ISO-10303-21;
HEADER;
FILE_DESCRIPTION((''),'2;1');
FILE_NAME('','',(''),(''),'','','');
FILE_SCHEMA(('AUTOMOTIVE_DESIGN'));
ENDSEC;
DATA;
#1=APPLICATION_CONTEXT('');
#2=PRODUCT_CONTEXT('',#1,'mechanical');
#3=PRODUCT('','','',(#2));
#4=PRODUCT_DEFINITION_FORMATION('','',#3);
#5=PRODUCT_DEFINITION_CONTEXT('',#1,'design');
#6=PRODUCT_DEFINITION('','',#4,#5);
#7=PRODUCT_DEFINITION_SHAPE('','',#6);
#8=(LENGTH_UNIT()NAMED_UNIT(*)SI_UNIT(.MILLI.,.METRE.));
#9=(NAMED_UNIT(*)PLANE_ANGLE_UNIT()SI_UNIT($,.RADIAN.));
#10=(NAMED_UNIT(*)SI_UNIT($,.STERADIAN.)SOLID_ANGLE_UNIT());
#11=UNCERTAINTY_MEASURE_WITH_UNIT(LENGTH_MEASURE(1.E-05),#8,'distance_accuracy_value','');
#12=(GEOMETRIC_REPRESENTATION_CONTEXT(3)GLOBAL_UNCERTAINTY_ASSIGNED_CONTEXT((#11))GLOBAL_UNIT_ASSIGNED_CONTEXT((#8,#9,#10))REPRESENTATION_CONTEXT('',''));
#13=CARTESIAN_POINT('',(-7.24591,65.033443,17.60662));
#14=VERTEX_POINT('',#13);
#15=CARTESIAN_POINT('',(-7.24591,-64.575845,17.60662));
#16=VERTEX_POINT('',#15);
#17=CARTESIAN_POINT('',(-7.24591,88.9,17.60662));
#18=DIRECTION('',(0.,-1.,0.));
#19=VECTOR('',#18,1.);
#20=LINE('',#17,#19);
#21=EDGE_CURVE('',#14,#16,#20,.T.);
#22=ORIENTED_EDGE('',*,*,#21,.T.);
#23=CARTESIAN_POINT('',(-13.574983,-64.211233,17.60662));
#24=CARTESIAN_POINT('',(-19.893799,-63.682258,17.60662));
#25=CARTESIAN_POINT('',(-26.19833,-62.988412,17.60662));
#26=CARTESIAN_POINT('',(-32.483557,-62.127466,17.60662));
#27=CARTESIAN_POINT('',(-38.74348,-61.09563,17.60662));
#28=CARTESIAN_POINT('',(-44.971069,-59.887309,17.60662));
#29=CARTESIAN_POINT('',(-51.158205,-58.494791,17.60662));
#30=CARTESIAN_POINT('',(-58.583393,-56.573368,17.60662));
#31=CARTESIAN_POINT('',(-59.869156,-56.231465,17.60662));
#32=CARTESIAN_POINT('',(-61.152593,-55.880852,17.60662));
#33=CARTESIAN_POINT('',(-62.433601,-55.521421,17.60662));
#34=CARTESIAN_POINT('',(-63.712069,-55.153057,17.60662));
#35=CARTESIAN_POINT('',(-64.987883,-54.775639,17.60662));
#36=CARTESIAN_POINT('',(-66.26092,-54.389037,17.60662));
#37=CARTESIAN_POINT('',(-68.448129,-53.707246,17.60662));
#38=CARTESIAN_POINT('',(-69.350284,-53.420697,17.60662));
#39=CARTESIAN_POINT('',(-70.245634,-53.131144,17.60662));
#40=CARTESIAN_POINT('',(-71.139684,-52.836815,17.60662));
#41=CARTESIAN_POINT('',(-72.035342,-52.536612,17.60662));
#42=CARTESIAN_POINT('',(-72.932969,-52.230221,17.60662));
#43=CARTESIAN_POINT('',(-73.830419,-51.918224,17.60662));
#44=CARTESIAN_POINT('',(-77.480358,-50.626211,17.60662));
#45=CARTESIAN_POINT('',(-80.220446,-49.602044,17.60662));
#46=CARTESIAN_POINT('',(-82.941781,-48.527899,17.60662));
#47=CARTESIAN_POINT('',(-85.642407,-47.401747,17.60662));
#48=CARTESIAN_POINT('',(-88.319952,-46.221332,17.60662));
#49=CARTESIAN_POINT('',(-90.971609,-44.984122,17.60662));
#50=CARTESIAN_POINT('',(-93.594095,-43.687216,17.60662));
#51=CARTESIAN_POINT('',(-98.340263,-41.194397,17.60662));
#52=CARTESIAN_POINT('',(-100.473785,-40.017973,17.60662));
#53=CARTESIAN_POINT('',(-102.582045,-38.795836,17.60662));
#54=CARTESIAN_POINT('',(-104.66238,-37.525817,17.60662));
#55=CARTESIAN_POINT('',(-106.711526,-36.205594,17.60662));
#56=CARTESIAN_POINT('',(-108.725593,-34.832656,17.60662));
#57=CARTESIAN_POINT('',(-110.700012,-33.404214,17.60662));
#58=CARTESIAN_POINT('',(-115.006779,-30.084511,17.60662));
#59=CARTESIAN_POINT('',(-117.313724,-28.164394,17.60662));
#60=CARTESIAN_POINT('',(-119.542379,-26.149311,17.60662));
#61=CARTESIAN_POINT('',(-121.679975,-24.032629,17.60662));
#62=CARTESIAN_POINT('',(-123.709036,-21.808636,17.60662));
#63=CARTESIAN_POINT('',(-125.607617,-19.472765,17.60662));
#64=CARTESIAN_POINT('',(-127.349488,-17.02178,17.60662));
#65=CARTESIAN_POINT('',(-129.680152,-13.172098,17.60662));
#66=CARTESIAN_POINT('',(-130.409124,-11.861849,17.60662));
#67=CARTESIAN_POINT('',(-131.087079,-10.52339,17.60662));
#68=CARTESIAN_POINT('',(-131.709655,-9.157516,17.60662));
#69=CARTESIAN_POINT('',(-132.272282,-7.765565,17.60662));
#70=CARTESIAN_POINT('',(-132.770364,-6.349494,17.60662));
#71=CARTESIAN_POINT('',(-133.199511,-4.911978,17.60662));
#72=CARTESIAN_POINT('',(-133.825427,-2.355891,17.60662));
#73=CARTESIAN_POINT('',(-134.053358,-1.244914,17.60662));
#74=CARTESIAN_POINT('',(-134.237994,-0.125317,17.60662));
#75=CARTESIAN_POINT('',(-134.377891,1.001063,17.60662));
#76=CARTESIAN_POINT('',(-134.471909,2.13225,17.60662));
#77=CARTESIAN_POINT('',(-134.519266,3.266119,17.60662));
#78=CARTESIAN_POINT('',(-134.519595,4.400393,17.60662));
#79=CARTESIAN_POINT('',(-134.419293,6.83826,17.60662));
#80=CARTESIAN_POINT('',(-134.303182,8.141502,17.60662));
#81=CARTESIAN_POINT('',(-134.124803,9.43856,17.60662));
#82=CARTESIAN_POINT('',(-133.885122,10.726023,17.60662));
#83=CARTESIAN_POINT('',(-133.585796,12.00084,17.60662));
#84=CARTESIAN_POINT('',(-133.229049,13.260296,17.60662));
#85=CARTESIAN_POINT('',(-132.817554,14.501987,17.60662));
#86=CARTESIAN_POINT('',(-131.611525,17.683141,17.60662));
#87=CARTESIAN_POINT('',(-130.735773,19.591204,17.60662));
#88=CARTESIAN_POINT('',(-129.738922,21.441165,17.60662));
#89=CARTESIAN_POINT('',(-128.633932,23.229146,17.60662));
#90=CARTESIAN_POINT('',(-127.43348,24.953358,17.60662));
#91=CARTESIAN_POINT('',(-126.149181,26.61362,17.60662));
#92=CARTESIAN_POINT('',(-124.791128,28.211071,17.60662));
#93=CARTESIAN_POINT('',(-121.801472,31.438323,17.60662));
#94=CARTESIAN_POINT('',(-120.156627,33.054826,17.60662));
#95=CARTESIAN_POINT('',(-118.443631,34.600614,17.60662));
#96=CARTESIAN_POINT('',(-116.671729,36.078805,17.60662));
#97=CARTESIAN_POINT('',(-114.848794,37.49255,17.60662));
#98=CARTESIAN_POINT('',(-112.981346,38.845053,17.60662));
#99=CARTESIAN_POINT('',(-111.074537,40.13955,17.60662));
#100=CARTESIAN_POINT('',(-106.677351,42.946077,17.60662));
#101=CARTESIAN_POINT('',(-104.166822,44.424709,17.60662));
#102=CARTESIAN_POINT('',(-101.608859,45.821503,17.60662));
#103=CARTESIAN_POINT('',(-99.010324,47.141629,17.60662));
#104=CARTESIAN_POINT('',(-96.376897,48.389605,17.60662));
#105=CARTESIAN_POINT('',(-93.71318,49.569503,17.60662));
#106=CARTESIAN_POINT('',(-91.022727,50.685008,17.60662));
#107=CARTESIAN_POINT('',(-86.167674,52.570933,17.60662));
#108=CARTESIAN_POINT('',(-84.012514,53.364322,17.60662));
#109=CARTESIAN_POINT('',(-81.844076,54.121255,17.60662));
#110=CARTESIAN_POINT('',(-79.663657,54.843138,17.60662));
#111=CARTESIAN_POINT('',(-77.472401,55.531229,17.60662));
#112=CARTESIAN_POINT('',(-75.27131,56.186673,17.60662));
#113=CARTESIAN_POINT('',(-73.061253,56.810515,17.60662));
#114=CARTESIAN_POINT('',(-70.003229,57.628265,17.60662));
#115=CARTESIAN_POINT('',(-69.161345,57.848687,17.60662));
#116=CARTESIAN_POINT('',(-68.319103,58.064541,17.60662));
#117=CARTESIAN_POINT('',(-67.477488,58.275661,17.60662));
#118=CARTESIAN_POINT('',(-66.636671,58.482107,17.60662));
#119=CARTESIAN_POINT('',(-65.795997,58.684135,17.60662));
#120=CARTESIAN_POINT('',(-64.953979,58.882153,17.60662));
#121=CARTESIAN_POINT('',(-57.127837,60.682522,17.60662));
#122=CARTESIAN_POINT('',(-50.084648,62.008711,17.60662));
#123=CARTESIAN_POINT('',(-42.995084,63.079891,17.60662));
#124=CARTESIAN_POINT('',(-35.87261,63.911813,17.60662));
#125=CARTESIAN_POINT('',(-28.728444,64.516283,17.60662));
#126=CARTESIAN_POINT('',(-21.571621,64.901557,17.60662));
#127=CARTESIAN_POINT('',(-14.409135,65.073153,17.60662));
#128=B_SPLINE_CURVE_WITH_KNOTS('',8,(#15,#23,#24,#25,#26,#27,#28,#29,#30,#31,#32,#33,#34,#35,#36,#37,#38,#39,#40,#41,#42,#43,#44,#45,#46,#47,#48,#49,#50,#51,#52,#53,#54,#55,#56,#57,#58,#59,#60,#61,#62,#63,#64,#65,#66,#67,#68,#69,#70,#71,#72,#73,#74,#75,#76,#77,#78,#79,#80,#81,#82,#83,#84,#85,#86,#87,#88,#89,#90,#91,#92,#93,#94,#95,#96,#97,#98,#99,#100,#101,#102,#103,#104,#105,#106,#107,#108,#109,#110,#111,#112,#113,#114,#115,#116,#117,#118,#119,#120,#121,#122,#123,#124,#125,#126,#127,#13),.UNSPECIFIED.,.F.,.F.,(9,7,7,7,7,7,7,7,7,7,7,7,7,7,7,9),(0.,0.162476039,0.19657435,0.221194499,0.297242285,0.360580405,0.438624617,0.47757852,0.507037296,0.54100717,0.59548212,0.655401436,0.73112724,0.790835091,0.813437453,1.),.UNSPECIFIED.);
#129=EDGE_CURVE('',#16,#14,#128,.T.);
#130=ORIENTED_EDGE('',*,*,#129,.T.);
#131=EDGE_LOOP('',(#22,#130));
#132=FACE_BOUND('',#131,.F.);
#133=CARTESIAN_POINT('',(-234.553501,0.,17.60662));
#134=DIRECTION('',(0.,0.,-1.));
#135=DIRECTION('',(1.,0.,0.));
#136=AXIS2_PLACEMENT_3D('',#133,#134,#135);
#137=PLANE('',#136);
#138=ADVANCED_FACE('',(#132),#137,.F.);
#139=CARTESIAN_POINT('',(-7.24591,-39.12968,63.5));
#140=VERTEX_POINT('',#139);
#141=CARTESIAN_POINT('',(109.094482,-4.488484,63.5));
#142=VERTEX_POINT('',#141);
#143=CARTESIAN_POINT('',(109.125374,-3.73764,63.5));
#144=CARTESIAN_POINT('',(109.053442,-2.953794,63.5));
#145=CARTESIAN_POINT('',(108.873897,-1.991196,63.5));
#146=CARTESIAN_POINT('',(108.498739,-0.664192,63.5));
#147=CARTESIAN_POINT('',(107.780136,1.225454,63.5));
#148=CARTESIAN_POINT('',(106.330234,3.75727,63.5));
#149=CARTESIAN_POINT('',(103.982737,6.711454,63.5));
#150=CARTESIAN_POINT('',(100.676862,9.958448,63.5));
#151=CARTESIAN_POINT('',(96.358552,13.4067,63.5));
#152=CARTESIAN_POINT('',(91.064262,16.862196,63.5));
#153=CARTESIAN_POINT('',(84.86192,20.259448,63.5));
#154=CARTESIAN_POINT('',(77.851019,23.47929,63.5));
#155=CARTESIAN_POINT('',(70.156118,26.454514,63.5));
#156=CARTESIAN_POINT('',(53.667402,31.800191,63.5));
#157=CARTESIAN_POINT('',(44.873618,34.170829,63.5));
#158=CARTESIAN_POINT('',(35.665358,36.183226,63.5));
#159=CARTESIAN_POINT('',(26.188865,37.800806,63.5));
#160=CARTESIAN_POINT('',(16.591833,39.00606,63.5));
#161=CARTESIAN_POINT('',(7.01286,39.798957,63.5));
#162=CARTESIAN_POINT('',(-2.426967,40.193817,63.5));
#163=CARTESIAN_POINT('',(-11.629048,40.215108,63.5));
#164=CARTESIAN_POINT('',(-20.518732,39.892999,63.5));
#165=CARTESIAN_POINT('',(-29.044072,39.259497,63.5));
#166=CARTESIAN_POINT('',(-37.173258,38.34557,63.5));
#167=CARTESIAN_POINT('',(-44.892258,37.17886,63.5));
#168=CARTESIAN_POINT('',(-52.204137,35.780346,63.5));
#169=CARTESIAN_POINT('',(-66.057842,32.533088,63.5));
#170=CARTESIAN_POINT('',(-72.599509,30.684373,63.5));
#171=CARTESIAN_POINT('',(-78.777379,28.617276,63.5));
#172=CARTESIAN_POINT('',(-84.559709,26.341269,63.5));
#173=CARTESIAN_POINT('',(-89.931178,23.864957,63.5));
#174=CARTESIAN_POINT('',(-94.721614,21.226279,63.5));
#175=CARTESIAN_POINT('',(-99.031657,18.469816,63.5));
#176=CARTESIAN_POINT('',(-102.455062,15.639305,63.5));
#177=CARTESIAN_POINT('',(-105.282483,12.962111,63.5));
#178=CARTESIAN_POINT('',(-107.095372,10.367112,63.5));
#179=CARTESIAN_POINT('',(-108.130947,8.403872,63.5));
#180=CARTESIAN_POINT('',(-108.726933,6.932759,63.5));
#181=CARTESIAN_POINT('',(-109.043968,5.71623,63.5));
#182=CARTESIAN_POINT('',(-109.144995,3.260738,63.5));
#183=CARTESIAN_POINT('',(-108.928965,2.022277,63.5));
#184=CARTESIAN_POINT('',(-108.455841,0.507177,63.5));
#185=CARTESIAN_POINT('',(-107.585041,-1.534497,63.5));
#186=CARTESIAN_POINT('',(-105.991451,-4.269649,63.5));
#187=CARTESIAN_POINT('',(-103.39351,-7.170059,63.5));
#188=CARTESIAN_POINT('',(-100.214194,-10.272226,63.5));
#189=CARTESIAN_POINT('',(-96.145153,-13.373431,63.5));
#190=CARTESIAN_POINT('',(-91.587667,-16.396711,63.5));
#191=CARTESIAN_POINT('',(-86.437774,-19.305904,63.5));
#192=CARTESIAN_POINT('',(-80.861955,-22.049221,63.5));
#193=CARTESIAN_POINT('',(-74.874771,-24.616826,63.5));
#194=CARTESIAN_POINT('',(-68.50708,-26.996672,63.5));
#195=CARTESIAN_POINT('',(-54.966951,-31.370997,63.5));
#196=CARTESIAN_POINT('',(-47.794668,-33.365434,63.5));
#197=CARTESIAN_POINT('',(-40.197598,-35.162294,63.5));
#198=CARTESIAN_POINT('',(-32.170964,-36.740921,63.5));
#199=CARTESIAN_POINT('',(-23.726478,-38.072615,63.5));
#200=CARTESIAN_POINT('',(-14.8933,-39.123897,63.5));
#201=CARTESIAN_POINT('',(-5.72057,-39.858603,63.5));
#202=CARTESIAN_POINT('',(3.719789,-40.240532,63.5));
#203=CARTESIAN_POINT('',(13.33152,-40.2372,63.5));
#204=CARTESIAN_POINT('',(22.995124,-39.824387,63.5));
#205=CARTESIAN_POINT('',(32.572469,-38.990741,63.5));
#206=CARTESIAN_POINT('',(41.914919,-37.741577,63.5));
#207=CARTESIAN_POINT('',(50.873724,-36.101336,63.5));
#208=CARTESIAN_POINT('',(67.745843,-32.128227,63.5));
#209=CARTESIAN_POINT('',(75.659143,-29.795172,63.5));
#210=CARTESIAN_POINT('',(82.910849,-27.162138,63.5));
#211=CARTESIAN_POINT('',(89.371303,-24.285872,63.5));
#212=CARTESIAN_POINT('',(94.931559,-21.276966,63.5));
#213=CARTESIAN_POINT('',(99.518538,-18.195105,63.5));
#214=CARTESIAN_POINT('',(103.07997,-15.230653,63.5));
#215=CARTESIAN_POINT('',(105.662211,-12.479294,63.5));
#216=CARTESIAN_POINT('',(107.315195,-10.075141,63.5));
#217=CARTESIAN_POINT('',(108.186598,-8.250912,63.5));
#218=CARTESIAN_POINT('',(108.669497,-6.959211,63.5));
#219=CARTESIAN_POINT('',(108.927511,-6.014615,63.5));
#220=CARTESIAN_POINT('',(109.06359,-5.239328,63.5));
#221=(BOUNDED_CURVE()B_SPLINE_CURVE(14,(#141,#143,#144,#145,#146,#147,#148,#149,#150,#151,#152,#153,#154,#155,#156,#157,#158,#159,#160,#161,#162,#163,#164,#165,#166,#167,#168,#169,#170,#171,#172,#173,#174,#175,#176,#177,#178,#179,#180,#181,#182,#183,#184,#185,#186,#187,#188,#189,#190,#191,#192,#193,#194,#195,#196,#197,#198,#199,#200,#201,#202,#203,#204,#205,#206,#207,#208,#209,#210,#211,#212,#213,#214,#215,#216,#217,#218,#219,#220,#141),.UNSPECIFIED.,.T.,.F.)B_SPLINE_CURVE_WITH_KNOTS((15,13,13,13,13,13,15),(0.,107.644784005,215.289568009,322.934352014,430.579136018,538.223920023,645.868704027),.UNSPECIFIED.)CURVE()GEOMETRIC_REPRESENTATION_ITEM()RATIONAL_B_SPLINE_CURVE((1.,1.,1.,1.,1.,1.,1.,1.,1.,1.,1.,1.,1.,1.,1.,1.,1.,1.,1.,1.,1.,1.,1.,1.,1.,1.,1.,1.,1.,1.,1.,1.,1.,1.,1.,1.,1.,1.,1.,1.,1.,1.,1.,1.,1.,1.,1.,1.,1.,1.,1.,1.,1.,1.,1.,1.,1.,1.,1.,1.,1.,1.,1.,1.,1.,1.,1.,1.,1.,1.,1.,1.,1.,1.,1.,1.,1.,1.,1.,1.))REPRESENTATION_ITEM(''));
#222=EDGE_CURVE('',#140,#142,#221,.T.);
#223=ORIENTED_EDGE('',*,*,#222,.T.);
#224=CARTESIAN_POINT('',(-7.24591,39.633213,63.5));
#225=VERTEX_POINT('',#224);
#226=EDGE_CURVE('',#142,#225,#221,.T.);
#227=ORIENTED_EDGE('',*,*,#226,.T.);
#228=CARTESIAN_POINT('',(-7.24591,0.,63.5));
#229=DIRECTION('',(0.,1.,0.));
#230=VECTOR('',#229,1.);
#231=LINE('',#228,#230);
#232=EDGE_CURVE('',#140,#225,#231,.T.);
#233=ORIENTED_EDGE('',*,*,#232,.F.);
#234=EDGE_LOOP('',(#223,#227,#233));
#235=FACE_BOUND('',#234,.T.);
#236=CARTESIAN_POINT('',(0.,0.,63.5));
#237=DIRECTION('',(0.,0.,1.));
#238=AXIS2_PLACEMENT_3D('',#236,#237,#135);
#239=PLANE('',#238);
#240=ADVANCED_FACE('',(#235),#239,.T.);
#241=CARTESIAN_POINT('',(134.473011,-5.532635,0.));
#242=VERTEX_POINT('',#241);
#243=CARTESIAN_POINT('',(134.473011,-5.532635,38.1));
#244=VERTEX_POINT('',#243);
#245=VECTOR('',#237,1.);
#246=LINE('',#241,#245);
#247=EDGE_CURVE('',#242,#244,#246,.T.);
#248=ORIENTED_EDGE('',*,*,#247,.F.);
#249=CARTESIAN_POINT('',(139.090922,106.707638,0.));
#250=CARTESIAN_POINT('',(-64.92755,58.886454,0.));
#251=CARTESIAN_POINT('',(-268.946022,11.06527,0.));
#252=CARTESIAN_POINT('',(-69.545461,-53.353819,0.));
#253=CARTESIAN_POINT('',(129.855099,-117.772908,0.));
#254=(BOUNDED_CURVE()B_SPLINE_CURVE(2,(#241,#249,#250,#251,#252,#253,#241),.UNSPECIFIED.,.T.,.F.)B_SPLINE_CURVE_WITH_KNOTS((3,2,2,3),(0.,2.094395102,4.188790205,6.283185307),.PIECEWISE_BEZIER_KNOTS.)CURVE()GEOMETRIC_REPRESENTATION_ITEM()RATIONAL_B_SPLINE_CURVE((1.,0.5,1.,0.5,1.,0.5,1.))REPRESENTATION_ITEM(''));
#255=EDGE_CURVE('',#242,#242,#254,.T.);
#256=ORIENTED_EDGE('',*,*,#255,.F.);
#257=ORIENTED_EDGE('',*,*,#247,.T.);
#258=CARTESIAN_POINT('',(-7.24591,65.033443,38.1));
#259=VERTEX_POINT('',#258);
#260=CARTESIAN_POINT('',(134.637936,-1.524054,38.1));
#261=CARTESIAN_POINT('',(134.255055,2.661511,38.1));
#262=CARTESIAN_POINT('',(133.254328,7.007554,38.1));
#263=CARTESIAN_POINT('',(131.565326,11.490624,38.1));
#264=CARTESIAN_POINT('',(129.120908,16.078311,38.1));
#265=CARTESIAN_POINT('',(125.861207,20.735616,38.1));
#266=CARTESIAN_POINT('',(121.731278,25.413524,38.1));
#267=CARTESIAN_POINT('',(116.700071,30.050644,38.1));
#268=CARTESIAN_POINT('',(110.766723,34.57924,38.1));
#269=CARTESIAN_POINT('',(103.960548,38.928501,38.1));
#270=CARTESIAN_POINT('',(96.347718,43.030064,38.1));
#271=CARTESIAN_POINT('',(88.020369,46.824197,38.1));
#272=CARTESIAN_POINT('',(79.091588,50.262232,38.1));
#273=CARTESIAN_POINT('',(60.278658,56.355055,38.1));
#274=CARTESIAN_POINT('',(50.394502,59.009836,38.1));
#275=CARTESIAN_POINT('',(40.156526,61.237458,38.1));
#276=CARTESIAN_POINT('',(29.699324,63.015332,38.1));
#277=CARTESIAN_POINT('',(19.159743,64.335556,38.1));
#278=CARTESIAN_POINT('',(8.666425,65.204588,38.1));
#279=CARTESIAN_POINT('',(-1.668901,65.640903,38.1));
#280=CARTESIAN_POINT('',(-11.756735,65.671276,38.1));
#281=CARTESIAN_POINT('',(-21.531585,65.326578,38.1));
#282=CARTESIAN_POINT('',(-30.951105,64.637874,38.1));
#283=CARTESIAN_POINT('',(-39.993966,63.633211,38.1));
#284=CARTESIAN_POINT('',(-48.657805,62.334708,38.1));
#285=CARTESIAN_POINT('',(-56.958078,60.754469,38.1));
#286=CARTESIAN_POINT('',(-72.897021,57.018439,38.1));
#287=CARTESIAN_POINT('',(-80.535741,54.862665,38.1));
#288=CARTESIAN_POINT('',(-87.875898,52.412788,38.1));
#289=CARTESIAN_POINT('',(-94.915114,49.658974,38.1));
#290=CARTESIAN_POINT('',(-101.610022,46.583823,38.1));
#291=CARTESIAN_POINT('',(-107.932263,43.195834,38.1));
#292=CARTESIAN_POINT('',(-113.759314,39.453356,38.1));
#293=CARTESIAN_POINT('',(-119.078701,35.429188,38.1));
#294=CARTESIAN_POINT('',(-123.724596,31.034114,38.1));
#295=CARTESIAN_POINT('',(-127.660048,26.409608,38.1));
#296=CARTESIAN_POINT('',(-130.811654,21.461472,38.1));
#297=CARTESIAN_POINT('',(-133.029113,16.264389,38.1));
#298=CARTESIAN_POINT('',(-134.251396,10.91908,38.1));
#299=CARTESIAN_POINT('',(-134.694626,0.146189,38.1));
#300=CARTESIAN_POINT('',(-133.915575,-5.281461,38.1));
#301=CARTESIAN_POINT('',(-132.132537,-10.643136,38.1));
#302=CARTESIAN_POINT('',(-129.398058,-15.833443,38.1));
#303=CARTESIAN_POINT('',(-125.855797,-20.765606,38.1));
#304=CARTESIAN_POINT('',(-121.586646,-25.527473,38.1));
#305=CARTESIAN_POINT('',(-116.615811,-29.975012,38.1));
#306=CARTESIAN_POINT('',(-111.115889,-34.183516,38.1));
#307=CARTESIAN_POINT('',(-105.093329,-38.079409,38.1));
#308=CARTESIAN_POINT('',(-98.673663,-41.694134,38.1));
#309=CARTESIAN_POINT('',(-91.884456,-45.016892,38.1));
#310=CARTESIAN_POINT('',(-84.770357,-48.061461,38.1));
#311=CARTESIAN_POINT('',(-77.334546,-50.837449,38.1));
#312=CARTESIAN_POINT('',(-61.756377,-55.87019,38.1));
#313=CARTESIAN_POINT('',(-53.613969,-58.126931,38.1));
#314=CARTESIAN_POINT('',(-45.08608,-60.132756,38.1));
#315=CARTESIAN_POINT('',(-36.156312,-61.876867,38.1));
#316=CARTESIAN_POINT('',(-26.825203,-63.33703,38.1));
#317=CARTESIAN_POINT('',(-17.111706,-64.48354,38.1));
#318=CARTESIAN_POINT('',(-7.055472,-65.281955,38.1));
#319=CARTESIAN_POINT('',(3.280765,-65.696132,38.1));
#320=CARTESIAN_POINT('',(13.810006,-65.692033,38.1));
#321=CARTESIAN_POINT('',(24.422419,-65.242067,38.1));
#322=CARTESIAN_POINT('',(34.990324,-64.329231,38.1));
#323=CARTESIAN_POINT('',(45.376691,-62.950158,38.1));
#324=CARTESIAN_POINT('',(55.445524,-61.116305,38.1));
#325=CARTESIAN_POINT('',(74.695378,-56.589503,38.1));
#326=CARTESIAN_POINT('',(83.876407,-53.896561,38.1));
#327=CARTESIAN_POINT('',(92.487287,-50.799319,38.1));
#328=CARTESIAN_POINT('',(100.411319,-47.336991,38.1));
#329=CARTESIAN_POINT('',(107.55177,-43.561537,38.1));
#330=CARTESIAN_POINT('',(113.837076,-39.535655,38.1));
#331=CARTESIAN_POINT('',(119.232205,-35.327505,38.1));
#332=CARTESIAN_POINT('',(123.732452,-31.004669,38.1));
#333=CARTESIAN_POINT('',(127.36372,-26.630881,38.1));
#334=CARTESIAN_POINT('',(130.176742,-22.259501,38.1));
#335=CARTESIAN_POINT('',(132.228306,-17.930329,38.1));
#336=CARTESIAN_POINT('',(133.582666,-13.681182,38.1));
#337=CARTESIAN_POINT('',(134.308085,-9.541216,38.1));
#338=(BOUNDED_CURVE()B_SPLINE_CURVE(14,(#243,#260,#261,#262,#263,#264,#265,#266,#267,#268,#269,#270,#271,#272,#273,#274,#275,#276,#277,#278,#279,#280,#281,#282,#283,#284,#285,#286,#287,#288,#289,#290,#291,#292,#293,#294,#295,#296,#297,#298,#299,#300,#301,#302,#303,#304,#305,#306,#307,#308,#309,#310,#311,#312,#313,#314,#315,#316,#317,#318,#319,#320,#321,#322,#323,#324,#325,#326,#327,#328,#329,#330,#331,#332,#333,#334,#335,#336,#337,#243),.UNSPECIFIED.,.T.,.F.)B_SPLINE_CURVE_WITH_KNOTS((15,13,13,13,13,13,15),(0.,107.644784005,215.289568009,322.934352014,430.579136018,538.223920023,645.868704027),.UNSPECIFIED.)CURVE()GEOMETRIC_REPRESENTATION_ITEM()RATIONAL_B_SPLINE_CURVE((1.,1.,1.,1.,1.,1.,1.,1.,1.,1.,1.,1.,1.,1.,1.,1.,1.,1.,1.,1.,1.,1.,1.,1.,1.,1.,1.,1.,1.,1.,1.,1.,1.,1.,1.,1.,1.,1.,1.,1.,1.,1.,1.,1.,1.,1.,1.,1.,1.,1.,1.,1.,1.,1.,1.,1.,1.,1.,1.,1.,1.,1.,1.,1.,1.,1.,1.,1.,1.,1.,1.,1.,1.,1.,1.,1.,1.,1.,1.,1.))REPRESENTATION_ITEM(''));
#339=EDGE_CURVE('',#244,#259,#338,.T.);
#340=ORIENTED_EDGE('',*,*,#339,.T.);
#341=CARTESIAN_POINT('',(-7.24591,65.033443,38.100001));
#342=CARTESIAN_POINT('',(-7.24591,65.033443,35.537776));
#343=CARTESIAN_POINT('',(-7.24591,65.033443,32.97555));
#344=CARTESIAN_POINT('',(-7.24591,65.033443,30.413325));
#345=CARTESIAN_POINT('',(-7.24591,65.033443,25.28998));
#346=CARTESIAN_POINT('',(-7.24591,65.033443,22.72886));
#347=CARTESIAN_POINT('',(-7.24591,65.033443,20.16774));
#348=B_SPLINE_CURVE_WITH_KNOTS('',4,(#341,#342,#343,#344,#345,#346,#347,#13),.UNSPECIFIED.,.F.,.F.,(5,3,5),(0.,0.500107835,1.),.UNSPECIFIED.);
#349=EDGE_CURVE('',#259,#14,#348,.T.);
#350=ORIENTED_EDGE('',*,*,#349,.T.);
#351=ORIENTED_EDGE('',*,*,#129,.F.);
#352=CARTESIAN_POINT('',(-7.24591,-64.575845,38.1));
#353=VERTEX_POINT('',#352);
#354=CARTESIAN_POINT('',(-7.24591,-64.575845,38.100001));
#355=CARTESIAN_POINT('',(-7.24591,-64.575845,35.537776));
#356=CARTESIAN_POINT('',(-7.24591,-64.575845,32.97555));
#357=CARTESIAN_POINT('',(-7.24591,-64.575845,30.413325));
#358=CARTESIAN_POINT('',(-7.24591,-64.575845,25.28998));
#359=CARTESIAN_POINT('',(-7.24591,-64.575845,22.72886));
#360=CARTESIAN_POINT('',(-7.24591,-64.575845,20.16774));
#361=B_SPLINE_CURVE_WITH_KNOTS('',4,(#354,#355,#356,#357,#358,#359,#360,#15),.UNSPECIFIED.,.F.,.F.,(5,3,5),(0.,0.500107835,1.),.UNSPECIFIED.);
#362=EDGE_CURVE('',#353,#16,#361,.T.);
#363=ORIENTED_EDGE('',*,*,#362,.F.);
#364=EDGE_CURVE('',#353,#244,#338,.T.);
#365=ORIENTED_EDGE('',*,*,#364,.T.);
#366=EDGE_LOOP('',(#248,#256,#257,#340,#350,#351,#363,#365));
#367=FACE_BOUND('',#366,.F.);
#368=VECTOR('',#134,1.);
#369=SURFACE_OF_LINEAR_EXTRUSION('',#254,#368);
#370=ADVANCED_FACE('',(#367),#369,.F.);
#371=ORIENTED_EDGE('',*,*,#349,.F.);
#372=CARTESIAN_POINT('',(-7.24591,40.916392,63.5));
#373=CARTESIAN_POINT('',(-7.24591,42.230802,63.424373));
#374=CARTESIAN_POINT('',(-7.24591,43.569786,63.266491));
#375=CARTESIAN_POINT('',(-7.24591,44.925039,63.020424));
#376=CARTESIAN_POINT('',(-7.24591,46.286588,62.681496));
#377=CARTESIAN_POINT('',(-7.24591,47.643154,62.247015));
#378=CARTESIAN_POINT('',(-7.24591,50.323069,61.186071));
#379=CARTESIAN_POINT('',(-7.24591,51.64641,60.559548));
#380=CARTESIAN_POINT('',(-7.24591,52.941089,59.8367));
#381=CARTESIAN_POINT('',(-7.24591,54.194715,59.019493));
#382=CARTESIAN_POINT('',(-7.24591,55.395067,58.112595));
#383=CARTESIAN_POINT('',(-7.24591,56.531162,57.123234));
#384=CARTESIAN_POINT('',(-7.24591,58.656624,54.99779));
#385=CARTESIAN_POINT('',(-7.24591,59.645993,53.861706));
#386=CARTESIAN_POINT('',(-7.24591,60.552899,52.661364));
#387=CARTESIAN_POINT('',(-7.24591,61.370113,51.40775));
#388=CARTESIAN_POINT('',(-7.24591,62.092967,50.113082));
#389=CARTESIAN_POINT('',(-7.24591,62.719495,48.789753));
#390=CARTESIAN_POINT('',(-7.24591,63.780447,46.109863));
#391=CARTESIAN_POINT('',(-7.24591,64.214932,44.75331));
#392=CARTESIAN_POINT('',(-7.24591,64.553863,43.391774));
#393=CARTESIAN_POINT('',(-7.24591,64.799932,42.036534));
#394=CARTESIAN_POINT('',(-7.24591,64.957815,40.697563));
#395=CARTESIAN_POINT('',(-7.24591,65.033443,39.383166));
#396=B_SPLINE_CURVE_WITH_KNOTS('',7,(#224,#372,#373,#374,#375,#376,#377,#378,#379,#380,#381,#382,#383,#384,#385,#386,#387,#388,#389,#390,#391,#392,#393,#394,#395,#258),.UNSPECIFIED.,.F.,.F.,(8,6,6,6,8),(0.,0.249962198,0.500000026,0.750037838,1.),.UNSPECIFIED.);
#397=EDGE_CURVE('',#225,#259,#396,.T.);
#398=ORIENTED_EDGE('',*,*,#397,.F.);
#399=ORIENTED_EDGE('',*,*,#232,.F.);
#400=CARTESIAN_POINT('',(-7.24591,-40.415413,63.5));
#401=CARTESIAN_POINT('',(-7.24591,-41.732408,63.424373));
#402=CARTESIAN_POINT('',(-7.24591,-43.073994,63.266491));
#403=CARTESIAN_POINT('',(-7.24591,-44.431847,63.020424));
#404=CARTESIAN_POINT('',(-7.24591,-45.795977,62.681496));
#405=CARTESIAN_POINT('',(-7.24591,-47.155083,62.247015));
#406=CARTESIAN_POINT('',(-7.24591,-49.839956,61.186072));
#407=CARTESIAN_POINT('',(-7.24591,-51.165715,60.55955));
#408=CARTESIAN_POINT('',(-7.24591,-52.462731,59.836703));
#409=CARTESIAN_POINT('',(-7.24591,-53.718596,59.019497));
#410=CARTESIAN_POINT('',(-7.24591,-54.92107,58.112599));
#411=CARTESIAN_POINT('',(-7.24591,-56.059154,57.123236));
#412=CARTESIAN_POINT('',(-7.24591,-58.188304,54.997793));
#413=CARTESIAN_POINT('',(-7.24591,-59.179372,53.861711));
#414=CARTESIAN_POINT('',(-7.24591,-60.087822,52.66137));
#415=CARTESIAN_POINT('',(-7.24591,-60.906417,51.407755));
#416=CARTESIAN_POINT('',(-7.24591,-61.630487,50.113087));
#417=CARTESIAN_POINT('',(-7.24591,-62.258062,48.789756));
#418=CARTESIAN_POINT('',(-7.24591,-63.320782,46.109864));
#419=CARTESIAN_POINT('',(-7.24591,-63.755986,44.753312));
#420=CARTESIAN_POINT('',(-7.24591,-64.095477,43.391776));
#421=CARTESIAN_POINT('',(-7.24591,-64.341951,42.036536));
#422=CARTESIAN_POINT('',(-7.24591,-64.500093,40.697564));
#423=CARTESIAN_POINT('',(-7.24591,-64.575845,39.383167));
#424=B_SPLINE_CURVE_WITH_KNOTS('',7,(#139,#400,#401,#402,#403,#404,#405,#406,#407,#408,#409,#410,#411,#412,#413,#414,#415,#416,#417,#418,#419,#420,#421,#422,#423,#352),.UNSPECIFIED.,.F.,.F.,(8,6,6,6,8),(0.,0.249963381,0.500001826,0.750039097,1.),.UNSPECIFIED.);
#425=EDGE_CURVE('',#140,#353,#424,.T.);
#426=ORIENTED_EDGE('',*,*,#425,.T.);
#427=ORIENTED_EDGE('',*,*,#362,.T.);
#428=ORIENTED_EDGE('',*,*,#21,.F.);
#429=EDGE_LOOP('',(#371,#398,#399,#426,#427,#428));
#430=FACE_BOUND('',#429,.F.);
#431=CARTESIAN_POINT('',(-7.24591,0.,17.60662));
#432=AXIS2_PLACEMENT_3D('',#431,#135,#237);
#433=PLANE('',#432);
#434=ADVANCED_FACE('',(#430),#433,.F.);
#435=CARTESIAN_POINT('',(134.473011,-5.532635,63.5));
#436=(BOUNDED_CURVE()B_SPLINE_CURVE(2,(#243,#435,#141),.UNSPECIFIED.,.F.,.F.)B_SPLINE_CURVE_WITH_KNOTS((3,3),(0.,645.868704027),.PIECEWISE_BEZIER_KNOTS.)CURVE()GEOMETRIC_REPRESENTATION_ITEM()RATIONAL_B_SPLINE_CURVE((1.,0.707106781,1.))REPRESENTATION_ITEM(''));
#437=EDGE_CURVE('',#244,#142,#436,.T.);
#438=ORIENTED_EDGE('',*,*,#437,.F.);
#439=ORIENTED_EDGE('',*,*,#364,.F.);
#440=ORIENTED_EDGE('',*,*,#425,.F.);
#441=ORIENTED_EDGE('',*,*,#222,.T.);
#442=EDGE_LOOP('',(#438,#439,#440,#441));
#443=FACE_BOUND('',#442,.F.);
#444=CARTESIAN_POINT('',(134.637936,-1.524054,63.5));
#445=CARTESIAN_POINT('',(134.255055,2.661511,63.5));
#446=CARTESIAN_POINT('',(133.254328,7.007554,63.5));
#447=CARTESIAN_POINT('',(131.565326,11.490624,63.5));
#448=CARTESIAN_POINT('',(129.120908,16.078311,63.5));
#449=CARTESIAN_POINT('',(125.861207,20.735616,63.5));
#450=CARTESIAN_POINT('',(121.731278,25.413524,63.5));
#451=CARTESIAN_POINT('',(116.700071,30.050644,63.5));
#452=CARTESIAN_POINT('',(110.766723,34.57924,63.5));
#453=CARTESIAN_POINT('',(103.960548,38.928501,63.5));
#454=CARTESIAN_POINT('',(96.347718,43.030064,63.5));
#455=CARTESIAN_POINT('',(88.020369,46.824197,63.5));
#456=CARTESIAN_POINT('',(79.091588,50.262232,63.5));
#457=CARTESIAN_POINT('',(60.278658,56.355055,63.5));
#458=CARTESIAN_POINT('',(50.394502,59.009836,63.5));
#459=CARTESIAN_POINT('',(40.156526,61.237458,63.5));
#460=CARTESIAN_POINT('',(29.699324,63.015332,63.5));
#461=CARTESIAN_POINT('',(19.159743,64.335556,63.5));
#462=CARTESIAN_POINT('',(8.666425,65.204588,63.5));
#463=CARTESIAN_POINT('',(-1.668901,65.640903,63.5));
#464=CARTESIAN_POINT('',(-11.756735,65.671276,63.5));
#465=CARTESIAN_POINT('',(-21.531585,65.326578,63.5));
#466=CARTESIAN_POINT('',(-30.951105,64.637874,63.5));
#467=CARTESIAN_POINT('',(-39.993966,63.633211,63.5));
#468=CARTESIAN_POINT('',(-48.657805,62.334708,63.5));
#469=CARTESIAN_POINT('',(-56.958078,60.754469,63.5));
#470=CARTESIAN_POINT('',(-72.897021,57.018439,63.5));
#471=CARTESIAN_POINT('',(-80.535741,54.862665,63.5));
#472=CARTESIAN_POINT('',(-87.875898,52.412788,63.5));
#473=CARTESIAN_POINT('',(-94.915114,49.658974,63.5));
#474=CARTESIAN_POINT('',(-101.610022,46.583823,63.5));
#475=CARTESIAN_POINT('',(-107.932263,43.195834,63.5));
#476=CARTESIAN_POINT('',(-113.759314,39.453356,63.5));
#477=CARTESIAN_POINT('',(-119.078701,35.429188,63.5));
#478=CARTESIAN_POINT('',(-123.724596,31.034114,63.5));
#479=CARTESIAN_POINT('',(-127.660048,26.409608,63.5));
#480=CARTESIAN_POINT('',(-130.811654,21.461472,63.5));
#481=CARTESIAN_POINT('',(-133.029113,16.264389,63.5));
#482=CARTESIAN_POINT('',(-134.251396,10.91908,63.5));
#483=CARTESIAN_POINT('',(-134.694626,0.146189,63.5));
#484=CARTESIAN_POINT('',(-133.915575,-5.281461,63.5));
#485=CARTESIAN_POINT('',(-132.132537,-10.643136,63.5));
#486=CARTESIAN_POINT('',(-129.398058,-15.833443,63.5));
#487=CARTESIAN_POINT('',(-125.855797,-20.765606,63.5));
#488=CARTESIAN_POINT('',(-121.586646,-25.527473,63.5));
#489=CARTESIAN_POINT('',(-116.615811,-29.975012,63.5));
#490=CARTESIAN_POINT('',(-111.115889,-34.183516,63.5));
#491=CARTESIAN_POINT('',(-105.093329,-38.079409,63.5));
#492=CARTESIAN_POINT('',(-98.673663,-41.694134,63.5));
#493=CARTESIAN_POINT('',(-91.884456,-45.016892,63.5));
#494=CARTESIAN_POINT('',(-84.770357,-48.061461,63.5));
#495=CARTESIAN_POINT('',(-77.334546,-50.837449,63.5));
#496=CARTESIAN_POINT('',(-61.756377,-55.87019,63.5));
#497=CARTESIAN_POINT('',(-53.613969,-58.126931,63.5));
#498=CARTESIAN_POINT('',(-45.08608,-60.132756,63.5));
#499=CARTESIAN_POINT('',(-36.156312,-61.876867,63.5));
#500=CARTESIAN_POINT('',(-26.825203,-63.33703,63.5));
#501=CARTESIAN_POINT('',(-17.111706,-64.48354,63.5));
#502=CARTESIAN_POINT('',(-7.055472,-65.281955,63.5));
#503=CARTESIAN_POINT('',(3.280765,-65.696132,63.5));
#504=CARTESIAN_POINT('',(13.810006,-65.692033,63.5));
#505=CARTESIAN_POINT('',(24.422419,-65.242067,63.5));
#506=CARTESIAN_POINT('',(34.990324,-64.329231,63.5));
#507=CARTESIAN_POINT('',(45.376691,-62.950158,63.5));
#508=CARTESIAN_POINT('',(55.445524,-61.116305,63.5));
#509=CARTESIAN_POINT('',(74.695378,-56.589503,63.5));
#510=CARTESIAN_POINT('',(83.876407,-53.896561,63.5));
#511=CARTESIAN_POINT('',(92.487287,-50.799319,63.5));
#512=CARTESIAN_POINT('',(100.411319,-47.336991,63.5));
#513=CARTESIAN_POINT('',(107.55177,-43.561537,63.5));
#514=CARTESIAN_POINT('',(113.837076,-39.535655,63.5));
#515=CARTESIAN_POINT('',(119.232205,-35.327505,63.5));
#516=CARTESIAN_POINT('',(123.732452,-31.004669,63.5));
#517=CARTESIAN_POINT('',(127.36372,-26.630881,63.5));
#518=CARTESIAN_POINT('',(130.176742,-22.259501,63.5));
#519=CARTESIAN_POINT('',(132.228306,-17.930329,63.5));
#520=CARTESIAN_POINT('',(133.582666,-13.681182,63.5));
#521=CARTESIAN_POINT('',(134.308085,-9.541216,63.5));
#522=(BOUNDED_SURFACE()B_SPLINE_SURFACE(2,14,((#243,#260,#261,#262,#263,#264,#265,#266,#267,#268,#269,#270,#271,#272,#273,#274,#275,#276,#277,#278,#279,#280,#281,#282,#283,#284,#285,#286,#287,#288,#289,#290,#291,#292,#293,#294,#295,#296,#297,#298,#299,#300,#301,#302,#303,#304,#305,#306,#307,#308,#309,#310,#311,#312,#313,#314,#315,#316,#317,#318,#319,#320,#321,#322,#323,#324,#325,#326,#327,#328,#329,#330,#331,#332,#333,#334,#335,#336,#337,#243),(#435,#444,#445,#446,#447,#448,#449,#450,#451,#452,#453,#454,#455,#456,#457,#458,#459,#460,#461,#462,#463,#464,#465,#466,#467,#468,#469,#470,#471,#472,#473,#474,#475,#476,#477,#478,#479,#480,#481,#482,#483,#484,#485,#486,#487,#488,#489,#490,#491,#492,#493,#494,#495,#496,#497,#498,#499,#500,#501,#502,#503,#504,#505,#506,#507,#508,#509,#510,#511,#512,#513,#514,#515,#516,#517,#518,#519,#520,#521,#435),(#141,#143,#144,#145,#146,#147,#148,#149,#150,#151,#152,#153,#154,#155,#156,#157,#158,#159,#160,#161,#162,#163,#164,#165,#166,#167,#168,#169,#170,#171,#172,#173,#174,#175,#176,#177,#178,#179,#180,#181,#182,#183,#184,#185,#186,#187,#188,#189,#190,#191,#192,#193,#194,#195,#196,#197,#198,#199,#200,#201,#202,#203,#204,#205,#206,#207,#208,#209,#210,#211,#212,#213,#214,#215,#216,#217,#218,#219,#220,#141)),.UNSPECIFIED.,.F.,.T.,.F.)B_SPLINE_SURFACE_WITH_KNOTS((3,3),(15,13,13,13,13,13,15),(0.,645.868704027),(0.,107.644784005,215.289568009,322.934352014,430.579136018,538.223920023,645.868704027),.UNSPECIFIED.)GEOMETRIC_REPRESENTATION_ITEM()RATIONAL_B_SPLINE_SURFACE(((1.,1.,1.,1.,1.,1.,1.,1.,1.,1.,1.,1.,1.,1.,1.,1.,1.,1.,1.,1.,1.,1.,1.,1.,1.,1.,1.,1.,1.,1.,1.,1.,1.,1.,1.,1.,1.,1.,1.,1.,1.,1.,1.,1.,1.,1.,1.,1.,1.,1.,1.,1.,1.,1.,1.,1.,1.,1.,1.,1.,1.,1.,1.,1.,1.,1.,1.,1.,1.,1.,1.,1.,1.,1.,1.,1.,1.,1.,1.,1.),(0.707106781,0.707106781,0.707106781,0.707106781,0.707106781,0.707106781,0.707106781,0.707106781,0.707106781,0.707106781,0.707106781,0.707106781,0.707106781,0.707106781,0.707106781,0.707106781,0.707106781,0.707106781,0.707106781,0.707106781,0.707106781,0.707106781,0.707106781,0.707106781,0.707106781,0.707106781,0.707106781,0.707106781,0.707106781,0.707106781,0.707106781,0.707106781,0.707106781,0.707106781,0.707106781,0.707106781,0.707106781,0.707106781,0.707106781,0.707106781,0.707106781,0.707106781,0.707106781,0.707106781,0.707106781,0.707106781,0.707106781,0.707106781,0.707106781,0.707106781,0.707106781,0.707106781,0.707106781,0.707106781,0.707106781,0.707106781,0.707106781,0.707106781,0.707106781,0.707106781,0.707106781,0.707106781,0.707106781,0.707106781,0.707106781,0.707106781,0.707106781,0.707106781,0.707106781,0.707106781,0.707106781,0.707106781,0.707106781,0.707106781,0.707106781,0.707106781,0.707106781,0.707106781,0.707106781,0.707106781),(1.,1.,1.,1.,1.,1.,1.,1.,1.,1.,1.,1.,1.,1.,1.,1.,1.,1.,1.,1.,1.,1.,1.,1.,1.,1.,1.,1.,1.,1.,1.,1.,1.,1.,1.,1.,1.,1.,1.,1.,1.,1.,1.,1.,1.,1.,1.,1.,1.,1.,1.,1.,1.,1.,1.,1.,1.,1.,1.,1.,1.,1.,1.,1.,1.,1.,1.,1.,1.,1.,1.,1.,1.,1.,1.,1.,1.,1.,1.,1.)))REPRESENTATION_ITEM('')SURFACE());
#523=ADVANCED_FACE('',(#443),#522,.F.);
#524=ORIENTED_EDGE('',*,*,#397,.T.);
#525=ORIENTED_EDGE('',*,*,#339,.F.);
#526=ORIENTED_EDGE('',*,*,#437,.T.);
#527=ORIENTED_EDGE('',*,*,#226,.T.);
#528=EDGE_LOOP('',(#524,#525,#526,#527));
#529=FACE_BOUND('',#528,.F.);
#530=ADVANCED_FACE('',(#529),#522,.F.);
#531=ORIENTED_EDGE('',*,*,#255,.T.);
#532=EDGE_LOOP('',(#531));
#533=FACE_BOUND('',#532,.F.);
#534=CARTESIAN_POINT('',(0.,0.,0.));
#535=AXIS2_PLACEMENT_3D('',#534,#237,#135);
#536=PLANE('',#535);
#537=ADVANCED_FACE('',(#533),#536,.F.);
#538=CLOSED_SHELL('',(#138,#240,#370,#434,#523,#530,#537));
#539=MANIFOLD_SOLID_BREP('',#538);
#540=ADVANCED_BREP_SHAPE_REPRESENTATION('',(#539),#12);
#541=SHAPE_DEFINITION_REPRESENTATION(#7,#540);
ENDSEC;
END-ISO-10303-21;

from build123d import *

# Parameters (mm, degrees)
F1_DEPTH = 63.5
F2_R     = 25.4
F3_W     = 227.307590656
F3_H     = 52.1239899099
F4_DEPTH = 88.9


with BuildPart() as f1:
    # F0 (on Top) → F1 (new body)
    with BuildSketch(Plane.XY):
        with BuildLine():
            add(Edge.make_bspline(
                [(134.4730108976, -5.5326349102), (139.0909223312, 106.7076384148), (-64.927549732, 58.8864541176), (-268.9460217953, 11.0652698204), (-69.5454611656, -53.3538192074), (129.8550994641, -117.7729082352), (134.4730108976, -5.5326349102)],
                knots=[0, 0, 0, 2.0943951024, 2.0943951024, 4.1887902048, 4.1887902048, 6.2831853072, 6.2831853072, 6.2831853072], degree=2, weights=[1, 0.5, 1, 0.5, 1, 0.5, 1]))
        make_face()
    extrude(amount=F1_DEPTH)

    # F2
    f2_edges = [f1.edges().sort_by_distance(p)[0] for p in [
        (-134.47301, 5.53266, 63.5),
    ]]
    fillet(f2_edges, radius=F2_R)

    # F3 (on Front) → F4 (cut, symmetric)
    with BuildSketch(Plane.XZ):
        with Locations((-120.8997056819, 43.6686147004)):
            Rectangle(F3_W, F3_H)
    extrude(amount=F4_DEPTH, both=True, mode=Mode.SUBTRACT)


solid = f1.part
